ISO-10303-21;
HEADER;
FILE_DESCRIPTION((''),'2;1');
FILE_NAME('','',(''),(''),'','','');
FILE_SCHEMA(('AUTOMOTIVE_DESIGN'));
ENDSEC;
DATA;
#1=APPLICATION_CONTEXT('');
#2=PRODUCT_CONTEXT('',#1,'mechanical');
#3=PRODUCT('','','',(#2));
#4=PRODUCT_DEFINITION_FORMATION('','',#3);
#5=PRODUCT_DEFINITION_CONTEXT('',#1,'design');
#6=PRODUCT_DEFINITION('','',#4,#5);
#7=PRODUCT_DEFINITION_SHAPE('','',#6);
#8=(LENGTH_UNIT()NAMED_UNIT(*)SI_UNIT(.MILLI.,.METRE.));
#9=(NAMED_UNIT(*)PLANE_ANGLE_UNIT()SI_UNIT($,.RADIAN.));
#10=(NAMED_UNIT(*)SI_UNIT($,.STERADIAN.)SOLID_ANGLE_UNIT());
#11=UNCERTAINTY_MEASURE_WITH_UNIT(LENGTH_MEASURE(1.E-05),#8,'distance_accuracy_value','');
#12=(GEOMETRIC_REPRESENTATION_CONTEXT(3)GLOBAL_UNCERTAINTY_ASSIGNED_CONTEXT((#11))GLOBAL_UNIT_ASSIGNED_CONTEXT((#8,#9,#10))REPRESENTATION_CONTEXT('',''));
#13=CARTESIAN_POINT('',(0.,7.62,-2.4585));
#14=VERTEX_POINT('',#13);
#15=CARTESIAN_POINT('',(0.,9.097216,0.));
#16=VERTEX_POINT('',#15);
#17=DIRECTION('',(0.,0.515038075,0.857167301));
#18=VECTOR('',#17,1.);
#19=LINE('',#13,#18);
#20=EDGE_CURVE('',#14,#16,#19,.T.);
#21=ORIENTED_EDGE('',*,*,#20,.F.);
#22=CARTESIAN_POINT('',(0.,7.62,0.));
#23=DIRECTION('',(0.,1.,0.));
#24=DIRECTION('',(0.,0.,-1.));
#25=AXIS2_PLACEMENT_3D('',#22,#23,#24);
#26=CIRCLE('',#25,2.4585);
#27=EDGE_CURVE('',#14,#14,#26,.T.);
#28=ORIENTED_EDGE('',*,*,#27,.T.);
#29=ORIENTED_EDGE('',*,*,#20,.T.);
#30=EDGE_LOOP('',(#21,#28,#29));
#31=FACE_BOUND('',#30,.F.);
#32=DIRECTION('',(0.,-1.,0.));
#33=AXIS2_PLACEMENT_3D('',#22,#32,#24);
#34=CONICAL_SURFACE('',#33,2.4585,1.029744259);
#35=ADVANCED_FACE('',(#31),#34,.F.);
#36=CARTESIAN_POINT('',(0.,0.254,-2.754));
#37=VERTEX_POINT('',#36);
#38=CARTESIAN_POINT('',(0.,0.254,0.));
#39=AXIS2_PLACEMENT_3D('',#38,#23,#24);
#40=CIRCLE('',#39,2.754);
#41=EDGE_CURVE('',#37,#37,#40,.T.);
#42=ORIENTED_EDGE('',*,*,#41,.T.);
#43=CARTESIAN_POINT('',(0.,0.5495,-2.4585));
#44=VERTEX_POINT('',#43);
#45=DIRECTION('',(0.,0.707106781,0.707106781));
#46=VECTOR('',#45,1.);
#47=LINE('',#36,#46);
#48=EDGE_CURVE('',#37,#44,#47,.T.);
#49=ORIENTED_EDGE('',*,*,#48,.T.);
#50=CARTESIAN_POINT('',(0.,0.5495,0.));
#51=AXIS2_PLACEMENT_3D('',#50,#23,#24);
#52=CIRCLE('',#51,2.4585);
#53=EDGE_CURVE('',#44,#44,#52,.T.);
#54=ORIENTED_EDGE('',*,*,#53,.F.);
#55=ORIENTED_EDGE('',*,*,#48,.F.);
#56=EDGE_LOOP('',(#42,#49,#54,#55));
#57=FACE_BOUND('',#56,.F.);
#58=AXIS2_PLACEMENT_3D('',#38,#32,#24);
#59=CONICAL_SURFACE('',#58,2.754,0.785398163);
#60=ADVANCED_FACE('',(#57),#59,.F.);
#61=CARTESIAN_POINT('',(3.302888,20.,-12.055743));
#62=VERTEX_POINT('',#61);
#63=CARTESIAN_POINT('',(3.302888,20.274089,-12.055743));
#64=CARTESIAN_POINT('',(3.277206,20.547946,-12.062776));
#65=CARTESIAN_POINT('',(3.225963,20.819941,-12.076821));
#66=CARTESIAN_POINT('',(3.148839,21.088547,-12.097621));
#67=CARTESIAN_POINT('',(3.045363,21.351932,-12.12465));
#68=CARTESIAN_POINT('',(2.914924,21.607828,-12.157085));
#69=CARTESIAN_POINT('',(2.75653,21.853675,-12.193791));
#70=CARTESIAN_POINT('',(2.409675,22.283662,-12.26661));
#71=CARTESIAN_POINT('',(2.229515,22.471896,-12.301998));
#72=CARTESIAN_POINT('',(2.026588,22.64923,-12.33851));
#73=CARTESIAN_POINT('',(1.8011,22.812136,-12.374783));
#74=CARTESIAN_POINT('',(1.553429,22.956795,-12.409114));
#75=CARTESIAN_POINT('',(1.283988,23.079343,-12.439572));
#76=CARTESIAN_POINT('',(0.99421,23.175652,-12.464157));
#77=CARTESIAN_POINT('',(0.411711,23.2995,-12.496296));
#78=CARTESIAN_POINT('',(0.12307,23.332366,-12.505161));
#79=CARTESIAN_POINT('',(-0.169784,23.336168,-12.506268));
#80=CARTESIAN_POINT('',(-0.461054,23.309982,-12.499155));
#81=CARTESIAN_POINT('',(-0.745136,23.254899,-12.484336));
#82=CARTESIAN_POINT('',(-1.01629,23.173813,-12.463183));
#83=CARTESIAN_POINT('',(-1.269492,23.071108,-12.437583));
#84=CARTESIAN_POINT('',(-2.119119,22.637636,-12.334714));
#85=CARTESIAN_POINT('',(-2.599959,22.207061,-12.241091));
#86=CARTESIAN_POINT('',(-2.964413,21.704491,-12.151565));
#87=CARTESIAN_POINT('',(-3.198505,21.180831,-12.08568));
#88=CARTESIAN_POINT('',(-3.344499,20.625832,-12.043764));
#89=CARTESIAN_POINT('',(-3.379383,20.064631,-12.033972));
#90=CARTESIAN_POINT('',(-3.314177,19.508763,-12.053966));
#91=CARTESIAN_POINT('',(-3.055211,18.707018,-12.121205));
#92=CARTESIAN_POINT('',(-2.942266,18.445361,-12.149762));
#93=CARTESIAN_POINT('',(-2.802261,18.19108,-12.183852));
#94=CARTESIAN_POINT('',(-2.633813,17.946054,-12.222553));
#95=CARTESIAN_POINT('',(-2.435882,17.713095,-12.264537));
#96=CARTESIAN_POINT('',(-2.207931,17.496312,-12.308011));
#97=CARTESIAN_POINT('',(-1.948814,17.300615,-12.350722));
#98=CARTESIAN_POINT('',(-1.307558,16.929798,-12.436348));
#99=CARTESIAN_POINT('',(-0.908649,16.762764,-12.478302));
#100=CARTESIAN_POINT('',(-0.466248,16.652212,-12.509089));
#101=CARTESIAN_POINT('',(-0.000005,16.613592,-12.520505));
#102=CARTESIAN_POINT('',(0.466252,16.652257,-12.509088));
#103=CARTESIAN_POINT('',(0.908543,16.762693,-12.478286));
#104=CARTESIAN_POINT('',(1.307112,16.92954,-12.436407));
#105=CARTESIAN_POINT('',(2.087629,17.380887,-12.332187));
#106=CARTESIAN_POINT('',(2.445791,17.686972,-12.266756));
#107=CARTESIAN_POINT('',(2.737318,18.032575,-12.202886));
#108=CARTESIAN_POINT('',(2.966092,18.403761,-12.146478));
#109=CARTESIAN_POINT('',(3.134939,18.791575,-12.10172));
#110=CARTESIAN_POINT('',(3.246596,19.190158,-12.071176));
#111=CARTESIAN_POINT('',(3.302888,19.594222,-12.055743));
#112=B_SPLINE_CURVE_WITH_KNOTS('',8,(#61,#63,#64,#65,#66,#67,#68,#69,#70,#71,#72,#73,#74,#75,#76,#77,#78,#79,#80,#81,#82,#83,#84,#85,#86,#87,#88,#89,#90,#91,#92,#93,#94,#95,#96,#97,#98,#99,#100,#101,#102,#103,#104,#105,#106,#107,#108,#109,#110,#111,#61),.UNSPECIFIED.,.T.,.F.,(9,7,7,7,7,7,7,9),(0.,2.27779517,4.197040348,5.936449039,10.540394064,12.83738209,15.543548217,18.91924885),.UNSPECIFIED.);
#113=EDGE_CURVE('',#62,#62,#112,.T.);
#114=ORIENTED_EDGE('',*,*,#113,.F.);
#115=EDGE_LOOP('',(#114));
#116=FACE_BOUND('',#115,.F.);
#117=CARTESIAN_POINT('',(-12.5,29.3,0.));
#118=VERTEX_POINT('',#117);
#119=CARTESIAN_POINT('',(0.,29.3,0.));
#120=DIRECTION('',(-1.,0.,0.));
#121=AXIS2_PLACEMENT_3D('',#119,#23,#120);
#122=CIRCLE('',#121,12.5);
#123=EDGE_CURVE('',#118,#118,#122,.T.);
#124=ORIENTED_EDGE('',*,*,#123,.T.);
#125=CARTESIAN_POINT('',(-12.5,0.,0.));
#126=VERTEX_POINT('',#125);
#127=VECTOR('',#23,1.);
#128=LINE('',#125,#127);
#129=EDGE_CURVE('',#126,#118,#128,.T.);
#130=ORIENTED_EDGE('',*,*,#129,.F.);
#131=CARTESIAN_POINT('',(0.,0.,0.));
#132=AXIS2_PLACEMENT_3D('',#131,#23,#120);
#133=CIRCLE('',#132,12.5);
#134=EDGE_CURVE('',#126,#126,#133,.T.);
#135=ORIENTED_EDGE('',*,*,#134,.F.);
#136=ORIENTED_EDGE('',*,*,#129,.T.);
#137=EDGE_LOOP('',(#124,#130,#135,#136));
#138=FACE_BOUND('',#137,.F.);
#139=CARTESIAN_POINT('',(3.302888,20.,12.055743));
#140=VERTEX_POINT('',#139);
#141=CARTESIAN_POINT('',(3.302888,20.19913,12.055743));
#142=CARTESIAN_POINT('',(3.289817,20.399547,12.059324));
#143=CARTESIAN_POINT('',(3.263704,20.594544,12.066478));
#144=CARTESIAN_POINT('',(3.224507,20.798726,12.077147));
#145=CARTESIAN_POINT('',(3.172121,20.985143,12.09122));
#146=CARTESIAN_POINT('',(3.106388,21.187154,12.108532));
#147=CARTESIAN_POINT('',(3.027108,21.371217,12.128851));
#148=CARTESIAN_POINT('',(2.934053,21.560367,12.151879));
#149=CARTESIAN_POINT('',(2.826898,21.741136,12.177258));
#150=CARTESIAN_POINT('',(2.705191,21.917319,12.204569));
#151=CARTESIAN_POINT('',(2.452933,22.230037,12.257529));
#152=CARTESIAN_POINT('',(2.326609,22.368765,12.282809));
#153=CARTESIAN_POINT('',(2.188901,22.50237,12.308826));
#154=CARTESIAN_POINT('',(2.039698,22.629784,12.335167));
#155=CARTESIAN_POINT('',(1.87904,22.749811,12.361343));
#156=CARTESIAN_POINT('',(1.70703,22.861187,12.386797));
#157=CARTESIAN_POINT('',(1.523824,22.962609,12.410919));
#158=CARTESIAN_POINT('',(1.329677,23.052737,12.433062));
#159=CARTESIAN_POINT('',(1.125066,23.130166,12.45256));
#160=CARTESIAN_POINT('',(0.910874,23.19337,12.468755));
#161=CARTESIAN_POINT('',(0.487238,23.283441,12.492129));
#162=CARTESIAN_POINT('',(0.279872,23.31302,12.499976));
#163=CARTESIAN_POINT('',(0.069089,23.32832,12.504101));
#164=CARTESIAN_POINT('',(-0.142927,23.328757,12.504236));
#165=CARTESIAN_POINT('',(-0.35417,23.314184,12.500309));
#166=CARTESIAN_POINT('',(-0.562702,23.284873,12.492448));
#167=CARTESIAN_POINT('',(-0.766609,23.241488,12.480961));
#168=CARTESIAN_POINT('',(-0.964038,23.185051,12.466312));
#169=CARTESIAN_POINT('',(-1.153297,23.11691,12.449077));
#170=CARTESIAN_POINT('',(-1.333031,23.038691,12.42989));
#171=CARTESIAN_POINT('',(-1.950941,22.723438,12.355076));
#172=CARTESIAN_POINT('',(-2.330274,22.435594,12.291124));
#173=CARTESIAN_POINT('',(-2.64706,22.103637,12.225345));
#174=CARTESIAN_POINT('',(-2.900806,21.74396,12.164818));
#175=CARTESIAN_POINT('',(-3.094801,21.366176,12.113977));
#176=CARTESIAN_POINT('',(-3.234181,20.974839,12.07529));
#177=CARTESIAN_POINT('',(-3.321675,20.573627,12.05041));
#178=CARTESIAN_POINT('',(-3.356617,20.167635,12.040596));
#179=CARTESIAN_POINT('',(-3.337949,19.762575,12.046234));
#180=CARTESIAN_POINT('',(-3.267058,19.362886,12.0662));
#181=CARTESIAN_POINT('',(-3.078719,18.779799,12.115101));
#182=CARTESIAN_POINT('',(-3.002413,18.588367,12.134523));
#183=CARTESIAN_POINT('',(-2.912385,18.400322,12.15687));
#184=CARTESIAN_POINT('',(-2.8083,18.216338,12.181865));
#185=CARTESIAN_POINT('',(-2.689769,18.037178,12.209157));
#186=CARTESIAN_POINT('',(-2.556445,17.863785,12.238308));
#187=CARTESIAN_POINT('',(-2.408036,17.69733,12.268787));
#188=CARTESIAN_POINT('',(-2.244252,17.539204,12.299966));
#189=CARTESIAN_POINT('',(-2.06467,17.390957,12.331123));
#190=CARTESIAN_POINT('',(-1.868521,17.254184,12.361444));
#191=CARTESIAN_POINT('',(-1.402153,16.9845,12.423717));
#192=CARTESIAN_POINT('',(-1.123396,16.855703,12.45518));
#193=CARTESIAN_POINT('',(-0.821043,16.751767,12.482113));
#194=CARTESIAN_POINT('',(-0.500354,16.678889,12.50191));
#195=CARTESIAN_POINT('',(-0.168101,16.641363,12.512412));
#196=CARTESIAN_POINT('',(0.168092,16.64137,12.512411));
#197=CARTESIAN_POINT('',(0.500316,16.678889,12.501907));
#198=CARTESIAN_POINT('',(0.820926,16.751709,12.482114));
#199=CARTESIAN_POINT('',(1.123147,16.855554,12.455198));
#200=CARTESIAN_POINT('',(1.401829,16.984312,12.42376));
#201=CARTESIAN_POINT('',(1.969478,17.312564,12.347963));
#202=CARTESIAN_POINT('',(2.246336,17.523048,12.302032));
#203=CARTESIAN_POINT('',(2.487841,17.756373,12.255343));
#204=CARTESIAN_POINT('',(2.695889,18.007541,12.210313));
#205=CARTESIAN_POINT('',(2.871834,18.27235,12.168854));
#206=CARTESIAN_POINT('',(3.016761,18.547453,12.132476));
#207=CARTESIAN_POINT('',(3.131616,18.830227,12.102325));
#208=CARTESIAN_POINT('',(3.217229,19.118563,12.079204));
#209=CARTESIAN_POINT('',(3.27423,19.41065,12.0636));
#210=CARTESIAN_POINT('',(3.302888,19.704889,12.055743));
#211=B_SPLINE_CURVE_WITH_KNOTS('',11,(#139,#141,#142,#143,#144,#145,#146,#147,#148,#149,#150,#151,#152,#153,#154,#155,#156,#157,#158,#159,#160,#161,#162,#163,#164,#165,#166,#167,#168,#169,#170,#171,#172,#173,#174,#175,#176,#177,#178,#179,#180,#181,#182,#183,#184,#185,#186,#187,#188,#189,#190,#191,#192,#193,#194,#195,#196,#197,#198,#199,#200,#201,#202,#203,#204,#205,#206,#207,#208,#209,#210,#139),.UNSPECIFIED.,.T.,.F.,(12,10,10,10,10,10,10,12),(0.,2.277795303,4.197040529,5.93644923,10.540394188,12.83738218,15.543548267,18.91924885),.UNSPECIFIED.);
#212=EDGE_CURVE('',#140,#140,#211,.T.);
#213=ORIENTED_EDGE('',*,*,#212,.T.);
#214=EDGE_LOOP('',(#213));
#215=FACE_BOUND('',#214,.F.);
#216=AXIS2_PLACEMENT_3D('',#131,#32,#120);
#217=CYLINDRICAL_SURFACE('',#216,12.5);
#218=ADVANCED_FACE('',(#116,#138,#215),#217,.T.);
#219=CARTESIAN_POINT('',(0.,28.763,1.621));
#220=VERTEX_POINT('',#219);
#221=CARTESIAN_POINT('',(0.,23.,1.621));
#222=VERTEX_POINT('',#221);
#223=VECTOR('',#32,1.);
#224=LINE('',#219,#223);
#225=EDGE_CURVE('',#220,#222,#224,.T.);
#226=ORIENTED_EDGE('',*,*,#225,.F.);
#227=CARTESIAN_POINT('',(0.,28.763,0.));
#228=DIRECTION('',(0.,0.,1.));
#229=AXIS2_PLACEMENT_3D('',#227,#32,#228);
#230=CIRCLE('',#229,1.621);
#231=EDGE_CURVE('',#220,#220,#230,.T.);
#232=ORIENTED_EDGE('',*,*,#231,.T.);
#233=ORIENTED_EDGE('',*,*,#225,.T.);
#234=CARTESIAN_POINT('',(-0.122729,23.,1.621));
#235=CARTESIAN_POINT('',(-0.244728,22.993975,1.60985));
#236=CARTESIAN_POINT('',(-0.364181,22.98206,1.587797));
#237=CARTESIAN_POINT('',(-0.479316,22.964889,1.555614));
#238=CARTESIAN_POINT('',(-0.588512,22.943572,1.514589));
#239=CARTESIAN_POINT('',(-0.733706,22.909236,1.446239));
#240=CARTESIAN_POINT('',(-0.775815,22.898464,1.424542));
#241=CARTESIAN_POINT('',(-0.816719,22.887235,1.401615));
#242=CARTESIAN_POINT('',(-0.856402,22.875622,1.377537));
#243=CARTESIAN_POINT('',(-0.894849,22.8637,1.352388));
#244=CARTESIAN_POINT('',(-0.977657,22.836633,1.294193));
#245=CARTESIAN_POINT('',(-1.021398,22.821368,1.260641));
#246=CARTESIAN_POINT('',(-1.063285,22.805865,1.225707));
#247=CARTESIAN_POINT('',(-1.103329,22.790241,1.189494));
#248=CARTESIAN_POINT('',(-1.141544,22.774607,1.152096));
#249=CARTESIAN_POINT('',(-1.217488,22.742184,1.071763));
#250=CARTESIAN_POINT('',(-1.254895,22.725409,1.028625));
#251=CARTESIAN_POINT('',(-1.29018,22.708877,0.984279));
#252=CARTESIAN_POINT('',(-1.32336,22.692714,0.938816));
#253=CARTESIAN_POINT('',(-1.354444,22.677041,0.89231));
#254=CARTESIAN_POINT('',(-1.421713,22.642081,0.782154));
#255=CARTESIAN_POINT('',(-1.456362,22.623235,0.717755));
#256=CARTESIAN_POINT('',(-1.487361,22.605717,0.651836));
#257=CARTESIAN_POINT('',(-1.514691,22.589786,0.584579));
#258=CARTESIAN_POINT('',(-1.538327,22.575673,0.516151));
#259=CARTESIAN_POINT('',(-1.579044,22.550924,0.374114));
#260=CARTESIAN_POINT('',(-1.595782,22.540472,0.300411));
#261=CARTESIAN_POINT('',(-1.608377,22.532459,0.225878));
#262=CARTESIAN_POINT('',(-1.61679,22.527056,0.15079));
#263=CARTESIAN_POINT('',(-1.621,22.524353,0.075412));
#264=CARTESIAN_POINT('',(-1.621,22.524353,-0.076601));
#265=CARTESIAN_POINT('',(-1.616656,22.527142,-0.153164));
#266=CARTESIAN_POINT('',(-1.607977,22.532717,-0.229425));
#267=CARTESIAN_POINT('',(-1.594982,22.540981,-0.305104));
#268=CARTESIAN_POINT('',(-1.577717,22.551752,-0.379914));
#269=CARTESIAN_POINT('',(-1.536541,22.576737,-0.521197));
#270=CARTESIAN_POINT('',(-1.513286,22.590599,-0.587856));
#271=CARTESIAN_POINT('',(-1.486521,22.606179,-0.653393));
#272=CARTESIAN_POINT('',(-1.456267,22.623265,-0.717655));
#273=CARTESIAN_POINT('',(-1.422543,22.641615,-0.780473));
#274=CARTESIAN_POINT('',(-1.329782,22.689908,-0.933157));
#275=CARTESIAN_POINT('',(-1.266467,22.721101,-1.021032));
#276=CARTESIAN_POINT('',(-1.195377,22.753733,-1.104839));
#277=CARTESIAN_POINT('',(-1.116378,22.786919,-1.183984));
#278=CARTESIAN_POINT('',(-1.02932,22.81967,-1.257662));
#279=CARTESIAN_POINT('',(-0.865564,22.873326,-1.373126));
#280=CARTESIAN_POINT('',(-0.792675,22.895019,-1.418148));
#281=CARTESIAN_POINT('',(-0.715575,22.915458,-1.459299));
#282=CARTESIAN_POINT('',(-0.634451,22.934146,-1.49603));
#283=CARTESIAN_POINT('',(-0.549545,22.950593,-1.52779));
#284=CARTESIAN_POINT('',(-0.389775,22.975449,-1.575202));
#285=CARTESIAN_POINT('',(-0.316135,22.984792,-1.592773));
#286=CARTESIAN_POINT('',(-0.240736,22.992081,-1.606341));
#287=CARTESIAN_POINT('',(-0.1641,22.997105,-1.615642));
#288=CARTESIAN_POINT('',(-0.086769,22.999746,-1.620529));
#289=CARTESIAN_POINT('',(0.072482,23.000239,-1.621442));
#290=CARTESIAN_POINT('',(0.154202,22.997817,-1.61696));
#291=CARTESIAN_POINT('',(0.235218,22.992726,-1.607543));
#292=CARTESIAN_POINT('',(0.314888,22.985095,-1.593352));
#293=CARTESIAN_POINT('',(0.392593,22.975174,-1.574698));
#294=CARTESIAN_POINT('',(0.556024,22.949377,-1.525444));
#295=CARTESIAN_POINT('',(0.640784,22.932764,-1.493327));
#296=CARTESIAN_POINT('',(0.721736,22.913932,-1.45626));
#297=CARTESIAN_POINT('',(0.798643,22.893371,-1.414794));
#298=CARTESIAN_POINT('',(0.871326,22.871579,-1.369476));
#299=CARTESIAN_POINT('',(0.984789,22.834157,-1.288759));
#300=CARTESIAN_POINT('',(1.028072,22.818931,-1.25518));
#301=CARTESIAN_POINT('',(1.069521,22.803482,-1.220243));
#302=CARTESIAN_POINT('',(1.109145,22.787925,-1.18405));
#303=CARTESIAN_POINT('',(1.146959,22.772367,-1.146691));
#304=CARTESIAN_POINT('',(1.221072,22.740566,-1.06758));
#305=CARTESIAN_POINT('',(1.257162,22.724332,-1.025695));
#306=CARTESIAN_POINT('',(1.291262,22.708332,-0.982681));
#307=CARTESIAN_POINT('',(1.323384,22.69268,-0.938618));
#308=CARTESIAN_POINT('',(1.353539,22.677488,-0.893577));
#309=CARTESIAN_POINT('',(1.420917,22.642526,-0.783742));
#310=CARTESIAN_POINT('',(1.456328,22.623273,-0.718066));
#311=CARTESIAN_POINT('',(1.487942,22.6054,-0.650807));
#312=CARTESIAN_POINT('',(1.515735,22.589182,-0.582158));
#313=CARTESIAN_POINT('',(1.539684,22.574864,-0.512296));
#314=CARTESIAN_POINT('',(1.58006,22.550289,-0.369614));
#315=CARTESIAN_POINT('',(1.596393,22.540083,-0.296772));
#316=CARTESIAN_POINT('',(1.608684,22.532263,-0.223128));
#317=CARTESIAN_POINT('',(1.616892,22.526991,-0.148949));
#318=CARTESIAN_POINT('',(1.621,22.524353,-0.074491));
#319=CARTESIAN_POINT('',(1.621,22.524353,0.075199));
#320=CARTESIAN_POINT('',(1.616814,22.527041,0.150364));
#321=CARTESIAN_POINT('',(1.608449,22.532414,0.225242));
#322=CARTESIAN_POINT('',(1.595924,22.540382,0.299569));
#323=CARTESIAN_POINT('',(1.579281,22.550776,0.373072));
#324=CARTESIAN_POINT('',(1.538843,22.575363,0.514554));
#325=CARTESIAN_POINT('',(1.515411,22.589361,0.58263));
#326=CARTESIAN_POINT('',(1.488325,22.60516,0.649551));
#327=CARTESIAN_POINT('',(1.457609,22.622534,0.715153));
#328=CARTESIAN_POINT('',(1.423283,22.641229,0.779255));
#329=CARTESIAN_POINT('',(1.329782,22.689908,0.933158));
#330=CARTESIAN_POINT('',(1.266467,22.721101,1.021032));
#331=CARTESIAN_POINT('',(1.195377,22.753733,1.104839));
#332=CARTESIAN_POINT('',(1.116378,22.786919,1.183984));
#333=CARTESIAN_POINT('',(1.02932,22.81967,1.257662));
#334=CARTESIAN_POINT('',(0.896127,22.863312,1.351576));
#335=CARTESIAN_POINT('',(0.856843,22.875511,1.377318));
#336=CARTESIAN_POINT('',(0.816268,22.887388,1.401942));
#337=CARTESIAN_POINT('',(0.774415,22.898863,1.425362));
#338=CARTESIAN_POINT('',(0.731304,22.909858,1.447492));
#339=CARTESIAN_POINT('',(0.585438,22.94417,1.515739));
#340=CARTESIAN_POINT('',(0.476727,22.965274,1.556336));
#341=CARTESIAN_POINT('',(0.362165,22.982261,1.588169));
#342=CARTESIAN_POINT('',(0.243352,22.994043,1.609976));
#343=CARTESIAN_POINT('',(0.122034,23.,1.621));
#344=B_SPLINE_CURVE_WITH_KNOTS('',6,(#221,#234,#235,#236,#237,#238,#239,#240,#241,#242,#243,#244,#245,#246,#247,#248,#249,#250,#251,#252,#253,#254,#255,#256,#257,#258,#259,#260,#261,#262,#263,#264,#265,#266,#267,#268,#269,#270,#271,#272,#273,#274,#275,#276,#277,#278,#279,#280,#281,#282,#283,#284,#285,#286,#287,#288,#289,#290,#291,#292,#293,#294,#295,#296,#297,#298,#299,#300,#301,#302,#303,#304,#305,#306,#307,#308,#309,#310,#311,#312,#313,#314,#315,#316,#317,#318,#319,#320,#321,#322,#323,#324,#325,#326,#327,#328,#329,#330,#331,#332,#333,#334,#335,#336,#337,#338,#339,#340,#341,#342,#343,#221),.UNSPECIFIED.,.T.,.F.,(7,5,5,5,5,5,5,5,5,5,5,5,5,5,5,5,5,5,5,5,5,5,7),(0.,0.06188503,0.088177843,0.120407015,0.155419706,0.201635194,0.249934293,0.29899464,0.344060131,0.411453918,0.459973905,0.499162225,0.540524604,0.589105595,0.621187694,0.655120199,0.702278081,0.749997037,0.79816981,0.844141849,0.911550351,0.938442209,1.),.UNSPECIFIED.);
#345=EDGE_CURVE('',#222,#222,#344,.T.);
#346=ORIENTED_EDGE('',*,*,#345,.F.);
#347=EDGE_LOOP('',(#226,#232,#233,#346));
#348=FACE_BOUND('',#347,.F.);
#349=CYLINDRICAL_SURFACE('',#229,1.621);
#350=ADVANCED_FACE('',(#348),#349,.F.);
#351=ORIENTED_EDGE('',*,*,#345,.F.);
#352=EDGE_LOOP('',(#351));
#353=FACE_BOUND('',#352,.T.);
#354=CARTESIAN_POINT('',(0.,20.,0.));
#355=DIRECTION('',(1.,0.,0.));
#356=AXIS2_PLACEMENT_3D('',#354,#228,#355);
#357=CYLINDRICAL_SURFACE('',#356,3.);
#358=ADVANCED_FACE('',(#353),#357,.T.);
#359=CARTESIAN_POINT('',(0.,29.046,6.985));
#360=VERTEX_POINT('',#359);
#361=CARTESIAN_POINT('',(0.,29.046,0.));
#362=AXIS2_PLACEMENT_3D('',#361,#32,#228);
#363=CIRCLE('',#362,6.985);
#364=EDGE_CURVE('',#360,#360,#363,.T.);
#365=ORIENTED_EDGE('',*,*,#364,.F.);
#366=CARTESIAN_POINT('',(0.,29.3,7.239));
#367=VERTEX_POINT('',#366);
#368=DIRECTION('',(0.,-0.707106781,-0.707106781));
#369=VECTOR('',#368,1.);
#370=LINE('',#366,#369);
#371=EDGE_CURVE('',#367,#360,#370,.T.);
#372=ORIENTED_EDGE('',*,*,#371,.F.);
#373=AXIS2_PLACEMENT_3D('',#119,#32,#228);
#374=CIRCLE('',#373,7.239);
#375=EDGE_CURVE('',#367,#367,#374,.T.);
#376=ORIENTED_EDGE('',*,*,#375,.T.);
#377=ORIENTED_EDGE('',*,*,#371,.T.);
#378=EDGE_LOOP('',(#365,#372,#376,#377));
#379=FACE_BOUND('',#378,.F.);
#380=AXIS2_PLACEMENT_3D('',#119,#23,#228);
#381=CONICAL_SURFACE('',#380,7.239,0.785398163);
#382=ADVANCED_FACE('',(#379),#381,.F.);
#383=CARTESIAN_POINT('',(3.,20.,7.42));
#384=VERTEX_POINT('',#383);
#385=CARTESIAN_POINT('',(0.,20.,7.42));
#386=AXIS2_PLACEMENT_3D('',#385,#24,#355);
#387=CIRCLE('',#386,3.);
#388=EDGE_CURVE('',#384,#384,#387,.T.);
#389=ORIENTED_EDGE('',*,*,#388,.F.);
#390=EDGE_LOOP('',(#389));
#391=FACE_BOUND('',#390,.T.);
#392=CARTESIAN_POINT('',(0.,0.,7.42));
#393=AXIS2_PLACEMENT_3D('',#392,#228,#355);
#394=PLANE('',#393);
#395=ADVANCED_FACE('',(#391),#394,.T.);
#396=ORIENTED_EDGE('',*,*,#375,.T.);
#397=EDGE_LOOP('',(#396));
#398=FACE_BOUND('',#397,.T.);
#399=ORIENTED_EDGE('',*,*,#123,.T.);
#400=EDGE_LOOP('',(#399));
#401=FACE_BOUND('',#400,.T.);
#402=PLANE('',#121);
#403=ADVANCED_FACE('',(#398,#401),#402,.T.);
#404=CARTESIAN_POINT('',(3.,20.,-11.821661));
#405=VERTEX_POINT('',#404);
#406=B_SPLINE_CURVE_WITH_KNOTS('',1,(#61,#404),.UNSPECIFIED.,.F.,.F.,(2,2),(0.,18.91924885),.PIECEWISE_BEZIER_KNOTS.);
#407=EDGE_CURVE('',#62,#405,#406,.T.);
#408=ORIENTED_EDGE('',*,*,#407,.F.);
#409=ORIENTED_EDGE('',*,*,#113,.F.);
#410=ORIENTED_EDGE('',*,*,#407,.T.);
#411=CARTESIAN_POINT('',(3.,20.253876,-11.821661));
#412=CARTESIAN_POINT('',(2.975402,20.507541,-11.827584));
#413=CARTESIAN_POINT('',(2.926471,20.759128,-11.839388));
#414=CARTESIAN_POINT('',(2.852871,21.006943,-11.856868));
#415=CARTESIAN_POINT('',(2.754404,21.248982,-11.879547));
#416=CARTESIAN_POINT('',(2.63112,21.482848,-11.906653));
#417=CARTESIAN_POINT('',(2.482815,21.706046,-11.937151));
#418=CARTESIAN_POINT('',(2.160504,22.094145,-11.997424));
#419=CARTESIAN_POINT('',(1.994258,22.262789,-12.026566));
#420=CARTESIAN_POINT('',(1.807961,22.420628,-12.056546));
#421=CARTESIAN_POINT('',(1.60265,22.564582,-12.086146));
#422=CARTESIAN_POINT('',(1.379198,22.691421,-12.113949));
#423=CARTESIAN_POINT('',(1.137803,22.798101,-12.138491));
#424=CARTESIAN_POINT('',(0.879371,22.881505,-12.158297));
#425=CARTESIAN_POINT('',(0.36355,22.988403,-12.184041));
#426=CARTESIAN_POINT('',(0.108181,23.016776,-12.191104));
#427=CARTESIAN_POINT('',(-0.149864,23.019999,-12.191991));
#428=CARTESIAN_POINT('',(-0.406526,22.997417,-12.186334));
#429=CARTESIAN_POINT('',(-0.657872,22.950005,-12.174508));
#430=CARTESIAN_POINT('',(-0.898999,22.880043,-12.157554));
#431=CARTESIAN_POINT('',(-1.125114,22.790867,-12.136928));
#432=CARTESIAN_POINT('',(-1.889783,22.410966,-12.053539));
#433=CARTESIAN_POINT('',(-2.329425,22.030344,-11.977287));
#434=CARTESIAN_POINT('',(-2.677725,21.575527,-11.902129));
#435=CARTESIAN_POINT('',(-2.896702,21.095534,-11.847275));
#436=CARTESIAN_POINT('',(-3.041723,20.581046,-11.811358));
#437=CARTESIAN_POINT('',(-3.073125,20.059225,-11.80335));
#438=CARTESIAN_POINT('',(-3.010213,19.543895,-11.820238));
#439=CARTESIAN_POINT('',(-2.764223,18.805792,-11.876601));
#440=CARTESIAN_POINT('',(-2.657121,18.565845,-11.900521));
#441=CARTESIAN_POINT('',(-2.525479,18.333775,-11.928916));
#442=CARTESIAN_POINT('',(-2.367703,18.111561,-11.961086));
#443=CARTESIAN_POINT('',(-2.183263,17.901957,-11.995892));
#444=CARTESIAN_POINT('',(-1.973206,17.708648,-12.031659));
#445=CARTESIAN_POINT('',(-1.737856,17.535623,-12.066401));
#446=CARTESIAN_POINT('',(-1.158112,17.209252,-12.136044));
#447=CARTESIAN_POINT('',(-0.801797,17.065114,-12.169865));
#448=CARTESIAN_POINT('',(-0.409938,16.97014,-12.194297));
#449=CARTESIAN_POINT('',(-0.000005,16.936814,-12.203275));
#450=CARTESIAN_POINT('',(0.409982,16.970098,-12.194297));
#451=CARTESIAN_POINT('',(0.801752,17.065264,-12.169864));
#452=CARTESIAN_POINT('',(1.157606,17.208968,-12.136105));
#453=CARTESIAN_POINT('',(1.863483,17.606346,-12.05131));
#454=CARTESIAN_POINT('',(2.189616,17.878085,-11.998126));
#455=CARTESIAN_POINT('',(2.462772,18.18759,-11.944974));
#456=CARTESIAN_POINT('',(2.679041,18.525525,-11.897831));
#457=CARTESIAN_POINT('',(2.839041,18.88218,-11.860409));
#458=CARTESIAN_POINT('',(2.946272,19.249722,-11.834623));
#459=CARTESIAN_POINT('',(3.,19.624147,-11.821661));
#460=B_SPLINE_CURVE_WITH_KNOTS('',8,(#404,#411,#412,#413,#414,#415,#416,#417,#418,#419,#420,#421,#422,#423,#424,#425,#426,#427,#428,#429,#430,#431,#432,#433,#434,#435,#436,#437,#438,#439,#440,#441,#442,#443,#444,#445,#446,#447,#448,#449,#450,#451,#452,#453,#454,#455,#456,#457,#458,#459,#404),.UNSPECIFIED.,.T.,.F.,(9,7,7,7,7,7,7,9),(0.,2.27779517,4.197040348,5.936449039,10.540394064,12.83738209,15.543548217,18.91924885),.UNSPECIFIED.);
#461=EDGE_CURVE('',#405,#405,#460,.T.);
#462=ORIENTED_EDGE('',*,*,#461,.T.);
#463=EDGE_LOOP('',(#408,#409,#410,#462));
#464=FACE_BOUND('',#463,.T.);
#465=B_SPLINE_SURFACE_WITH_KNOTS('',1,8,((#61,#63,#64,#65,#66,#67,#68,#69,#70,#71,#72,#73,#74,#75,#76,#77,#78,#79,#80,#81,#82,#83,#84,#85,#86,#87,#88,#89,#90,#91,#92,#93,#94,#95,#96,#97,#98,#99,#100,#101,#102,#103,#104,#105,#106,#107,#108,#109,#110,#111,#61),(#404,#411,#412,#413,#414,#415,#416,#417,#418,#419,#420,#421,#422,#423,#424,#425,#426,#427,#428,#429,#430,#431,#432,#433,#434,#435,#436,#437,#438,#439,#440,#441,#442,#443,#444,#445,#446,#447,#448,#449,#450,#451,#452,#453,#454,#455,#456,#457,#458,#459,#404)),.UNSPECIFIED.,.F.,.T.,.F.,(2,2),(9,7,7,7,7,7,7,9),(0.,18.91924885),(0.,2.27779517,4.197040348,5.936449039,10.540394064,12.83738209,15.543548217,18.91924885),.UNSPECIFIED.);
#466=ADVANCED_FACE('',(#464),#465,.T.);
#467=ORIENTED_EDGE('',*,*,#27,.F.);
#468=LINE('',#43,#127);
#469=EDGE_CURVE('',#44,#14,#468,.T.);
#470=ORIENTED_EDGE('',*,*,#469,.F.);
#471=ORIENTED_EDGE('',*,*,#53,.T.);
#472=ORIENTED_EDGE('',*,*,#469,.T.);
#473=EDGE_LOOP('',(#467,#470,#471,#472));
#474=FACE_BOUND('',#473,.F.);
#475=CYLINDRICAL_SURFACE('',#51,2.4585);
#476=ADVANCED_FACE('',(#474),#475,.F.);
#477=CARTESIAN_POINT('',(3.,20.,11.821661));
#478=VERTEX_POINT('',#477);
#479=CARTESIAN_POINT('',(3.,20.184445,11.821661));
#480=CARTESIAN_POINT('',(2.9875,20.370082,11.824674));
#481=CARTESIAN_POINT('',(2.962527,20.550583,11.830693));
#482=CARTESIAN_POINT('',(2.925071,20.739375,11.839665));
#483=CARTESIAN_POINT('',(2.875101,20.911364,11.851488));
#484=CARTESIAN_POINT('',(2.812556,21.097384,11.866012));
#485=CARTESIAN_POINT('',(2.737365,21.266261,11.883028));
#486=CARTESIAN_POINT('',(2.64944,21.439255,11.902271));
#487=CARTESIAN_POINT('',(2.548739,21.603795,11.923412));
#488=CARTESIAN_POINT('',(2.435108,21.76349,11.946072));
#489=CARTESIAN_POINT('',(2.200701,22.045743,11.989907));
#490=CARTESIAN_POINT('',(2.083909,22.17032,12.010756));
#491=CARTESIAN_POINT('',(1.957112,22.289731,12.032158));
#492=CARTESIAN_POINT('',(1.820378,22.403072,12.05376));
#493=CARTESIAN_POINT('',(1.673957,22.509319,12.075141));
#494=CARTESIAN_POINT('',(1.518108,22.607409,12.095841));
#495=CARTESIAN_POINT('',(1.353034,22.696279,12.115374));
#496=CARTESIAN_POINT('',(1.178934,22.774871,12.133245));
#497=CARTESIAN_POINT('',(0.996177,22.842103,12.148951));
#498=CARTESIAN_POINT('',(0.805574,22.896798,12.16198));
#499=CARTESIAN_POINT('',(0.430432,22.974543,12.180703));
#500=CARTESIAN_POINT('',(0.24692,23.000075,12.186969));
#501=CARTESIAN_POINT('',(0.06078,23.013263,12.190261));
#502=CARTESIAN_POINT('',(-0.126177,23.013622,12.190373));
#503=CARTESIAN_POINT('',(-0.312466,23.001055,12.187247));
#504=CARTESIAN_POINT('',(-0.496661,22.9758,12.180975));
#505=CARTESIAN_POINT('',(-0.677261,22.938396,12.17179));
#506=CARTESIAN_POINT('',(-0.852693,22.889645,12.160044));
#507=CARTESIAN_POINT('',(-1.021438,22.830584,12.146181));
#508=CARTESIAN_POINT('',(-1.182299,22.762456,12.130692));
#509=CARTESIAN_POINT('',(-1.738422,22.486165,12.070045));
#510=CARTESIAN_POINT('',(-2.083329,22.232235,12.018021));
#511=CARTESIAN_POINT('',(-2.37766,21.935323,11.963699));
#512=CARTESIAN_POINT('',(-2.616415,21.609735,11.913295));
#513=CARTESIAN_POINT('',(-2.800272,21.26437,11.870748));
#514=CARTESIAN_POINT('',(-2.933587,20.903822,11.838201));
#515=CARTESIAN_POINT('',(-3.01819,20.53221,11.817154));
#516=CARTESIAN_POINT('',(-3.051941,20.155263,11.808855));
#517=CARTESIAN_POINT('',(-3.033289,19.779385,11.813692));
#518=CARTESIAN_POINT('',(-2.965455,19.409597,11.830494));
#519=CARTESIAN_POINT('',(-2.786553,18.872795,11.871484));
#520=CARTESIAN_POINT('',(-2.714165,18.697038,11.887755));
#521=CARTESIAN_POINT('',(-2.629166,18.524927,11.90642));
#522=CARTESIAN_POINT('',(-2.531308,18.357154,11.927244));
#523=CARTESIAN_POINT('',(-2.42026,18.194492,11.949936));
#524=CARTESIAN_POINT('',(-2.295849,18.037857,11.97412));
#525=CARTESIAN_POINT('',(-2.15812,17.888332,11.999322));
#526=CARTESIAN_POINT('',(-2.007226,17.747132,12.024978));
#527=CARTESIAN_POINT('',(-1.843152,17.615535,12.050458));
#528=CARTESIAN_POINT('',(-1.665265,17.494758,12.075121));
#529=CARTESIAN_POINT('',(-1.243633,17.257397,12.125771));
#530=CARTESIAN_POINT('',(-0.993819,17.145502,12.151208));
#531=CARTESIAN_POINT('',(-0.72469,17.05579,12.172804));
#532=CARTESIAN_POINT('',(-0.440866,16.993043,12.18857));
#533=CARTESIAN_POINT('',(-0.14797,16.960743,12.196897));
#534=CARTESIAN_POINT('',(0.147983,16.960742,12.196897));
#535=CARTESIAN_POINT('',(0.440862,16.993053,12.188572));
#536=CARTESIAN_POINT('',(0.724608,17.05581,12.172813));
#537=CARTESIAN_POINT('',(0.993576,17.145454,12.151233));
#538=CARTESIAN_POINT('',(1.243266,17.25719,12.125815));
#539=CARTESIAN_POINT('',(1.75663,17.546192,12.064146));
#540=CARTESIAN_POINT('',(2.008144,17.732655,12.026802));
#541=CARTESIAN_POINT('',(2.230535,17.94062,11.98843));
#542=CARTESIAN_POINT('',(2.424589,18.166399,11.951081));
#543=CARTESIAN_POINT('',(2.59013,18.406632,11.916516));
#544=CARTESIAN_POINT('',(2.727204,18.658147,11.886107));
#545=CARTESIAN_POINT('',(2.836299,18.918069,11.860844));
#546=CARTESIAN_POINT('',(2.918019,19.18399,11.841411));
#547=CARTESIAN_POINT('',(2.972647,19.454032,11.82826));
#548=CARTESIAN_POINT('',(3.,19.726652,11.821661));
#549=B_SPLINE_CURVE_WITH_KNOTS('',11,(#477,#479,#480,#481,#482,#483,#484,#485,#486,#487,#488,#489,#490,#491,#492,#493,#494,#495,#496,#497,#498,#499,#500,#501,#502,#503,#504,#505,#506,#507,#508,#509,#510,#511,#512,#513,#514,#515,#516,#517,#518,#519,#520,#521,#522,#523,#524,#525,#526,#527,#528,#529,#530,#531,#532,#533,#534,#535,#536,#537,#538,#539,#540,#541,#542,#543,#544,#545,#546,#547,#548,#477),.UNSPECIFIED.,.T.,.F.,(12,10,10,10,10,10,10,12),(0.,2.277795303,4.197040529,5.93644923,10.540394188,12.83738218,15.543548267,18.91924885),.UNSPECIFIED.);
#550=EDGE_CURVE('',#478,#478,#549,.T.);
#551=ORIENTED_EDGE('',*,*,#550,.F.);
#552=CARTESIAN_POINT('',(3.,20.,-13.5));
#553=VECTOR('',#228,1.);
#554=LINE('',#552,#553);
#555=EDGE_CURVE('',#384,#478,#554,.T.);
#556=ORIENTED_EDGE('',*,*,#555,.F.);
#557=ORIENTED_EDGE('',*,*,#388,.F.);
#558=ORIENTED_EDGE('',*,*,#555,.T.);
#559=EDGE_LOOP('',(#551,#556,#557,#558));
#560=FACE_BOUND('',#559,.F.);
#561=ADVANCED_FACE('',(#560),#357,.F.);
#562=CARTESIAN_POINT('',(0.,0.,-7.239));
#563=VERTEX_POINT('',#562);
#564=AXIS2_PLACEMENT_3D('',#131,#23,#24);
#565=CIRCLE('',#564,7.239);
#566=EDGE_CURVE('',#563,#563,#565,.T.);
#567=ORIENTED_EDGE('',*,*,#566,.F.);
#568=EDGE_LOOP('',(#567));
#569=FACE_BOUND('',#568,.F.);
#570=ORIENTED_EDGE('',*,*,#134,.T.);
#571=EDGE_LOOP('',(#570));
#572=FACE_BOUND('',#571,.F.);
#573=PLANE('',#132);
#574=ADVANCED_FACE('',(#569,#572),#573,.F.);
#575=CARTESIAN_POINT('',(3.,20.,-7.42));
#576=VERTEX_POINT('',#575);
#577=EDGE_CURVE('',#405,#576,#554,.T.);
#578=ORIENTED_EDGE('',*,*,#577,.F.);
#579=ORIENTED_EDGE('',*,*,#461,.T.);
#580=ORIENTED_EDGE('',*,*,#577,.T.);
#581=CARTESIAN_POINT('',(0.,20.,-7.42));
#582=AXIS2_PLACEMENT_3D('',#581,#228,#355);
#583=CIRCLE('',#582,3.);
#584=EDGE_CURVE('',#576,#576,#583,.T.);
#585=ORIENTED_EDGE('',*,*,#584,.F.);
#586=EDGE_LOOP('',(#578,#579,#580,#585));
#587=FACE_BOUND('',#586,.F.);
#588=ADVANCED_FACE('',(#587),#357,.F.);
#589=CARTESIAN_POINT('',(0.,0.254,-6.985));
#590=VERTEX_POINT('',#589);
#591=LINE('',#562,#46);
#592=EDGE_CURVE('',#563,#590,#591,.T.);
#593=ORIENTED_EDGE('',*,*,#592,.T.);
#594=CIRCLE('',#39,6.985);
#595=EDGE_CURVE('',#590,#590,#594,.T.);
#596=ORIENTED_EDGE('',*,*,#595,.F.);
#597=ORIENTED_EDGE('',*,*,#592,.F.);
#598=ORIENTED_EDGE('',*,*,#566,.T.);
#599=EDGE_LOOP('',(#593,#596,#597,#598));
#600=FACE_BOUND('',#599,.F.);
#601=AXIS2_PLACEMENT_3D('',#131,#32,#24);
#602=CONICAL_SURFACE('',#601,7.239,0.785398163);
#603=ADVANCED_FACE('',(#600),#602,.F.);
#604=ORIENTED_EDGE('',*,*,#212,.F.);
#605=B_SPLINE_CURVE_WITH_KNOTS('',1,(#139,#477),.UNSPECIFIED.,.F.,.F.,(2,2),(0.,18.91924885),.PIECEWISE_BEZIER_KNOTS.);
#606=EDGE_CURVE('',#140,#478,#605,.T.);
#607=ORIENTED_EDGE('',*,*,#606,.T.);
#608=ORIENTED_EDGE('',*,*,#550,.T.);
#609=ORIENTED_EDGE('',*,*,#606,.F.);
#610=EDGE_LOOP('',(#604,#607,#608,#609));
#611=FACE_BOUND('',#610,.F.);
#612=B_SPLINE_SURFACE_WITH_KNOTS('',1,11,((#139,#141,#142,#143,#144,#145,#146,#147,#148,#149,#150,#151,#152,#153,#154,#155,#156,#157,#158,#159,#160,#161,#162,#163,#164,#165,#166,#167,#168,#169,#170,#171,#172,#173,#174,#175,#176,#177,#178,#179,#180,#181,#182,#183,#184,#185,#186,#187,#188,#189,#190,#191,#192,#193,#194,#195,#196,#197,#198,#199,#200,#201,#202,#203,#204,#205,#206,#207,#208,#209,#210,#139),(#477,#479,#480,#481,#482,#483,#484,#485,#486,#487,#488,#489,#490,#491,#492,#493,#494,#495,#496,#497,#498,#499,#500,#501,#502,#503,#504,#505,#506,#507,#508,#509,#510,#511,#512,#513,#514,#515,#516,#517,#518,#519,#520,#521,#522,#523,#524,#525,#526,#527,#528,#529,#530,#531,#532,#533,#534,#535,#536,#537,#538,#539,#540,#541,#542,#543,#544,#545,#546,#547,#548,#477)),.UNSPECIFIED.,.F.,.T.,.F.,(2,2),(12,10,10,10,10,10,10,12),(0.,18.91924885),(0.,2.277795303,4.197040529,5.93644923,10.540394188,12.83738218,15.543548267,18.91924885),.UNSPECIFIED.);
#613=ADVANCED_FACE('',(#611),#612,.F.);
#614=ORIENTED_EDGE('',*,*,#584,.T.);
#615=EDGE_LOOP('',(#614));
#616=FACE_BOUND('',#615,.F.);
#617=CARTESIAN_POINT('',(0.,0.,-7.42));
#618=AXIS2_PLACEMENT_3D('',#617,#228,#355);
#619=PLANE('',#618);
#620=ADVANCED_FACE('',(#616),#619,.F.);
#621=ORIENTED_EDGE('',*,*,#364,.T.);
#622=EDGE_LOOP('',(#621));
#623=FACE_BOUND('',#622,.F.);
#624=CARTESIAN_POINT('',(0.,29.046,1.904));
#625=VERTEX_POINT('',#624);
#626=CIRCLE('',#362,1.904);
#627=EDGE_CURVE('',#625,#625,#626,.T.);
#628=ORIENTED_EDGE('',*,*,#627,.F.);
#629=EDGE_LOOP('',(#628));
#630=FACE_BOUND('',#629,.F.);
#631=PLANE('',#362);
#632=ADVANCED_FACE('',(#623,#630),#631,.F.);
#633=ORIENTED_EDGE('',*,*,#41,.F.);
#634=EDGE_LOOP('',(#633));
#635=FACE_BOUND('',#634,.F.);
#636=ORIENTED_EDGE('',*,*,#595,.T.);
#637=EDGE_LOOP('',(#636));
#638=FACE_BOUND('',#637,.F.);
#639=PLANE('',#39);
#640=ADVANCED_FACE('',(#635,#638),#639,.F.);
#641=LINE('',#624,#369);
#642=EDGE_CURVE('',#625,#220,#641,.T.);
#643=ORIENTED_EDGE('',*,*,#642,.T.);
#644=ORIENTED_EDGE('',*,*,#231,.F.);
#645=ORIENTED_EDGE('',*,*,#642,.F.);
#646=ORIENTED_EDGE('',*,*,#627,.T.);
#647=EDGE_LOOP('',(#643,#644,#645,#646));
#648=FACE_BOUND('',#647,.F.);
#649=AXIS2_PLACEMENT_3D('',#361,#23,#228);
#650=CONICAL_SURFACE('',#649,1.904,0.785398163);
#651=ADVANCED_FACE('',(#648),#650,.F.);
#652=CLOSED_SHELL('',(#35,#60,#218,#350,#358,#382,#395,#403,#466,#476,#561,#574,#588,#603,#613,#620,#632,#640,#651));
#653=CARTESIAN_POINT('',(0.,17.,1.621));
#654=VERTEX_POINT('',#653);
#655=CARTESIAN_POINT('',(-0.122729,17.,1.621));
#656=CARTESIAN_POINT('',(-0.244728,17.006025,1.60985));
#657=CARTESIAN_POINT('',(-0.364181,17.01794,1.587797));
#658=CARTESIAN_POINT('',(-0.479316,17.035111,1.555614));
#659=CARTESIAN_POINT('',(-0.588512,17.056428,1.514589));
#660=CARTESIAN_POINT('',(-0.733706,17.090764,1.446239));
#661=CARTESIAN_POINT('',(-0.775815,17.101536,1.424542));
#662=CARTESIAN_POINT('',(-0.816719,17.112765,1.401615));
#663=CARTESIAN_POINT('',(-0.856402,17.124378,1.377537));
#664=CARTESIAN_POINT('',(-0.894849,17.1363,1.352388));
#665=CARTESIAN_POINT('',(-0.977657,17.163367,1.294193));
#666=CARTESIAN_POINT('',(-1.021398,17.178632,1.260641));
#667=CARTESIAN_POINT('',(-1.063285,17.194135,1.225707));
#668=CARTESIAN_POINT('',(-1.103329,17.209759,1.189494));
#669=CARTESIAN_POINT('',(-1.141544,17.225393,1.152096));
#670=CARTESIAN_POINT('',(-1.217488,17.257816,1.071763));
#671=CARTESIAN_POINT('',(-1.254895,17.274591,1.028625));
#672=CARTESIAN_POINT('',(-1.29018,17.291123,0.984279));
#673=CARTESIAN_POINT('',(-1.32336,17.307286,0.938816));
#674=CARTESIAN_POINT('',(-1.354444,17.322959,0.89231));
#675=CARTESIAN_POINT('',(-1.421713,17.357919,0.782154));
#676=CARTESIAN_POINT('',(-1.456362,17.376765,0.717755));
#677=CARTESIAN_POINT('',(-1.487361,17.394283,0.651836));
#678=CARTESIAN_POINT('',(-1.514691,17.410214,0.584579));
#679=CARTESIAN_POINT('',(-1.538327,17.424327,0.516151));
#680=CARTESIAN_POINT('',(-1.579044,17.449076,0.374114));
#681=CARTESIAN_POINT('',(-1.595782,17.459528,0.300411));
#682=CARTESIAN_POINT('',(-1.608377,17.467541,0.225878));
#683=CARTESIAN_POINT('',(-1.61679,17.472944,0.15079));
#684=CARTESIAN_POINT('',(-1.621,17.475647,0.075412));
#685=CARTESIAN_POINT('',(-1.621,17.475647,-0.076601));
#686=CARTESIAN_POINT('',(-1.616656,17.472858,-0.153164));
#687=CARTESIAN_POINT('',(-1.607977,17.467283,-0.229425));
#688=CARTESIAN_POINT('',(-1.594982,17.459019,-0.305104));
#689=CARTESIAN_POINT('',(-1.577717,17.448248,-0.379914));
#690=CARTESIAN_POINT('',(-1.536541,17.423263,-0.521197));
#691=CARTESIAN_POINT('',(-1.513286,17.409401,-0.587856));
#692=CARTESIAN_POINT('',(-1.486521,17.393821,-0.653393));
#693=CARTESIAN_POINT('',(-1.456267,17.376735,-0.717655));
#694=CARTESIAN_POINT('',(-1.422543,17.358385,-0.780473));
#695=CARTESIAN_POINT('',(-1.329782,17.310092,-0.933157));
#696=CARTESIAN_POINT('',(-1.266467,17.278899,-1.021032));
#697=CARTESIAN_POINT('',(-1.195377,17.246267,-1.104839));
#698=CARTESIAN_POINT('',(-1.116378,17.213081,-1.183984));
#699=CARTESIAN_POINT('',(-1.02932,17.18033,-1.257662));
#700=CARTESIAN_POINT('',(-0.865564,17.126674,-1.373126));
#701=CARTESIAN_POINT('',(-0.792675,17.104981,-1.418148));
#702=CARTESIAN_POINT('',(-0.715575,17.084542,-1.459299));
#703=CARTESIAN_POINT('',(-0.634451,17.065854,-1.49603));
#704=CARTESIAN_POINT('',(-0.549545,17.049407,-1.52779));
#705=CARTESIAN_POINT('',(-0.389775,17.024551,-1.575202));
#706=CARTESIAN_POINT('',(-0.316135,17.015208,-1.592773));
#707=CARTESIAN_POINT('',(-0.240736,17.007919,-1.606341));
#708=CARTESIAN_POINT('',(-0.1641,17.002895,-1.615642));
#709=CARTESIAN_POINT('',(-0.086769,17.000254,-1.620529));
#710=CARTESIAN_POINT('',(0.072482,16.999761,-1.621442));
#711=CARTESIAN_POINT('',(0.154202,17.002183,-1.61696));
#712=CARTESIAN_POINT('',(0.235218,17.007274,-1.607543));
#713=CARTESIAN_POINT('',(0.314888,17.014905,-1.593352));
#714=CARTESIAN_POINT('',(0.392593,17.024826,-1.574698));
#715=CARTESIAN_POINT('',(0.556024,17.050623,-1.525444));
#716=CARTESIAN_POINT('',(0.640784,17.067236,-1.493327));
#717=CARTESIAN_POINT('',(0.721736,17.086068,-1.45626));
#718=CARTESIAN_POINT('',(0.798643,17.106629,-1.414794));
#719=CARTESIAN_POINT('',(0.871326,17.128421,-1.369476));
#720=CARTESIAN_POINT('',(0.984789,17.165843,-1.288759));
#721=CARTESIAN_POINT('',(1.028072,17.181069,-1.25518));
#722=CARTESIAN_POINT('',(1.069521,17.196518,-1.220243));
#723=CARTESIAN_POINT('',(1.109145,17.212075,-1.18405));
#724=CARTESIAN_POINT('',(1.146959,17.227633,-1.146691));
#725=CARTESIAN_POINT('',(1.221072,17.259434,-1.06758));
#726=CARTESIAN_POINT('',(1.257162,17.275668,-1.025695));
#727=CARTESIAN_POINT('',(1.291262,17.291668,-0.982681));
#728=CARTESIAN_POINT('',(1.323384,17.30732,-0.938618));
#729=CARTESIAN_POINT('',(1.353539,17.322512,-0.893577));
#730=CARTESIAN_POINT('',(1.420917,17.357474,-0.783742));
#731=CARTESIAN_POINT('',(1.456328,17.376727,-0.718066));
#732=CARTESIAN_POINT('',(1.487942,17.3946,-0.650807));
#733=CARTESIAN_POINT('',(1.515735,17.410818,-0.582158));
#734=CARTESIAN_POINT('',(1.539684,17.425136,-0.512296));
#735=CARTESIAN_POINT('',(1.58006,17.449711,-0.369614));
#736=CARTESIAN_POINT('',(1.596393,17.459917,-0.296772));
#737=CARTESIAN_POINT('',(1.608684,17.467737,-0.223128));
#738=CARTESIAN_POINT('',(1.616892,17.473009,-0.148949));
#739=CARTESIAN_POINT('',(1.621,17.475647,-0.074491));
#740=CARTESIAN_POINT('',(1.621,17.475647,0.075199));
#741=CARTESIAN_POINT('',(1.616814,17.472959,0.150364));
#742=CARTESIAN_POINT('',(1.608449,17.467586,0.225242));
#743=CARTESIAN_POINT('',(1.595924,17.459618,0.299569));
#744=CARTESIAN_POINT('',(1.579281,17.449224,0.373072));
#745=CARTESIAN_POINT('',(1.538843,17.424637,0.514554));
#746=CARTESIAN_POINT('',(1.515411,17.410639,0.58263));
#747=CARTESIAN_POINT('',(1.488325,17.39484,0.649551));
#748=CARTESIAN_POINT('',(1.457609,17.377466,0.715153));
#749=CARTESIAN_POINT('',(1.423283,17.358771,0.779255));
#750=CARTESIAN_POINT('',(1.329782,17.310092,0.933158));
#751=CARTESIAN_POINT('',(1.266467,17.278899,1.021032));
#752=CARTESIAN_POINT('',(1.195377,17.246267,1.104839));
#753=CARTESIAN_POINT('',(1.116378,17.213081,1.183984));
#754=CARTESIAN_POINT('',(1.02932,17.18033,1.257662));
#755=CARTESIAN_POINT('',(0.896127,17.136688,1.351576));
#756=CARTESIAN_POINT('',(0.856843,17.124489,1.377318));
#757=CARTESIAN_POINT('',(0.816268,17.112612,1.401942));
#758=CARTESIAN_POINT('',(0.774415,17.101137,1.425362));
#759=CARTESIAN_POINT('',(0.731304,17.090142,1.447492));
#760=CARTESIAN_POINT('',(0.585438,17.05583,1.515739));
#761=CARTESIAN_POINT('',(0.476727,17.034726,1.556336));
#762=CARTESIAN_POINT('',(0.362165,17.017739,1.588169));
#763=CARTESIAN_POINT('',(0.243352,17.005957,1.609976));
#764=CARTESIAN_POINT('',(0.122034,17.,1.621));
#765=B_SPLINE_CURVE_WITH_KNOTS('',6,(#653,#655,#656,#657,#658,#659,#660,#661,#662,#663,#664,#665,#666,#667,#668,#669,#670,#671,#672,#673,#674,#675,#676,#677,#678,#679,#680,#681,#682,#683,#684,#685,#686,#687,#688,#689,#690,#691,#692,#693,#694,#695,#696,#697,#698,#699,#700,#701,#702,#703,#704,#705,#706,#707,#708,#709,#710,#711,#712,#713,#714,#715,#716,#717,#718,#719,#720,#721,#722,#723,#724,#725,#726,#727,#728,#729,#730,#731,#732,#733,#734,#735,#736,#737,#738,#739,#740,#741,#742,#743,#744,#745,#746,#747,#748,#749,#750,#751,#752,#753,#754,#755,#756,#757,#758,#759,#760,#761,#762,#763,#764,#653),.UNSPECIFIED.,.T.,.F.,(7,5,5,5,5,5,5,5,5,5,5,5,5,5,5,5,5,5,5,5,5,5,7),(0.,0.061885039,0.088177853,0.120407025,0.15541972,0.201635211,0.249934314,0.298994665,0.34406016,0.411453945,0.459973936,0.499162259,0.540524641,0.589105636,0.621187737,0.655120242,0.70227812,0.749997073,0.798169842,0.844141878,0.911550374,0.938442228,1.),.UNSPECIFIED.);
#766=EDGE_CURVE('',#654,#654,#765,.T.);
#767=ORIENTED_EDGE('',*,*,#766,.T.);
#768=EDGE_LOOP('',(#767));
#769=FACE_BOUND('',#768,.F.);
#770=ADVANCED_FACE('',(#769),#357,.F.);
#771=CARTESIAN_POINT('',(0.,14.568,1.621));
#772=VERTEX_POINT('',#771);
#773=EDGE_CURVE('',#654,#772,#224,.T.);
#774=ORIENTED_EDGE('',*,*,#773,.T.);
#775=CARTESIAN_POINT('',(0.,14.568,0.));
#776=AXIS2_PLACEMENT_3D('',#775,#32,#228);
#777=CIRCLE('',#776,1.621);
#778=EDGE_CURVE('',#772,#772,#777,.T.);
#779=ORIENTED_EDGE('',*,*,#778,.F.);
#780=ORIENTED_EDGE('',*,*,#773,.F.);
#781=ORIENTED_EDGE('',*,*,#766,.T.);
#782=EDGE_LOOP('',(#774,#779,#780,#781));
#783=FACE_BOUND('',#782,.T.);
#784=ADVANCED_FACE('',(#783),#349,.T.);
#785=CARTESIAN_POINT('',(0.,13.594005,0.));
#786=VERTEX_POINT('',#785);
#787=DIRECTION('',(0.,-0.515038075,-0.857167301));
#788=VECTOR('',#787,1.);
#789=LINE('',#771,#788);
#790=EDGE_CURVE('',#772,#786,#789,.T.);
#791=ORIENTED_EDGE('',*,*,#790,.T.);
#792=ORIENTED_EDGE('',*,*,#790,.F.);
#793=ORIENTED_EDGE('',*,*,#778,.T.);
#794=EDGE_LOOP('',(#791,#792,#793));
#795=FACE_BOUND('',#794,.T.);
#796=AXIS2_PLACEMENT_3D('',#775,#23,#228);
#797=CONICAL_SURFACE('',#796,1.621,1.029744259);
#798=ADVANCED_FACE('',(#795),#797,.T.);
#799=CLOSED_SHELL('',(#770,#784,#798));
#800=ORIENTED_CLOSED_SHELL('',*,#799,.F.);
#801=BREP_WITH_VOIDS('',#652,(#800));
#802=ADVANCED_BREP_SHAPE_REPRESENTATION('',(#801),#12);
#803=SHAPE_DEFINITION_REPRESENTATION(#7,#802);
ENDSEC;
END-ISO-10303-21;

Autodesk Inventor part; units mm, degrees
ref_plane "YZ Plane" through (0, 0, 0) normal (1, 0, 0) x (0, 1, 0)
ref_plane "XZ Plane" through (0, 0, 0) normal (0, 1, 0) x (-1, 0, 0)
ref_plane "XY Plane" through (0, 0, 0) normal (0, 0, 1) x (1, 0, 0)
sketch "Sketch1" plane through (0, 0, 0) normal (0, 1, 0) x (-1, 0, 0)
  circle A0 centre (0, 0) radius 12.5
  dimension "d0" = 25
extrude "Extrusion1" add sketch "Sketch1" along normal blind 29.3
hole "ReliefTop" at (0, 29.3, 0) direction (0, -1, 0) diameter 13.97 depth 0.254 countersink diameter 14.478 countersink angle 90
hole "ReliefBottom" at (0, 0, 0) direction (0, 1, 0) diameter 13.97 depth 0.254 countersink diameter 14.478 countersink angle 90
hole "MountBottomM6" at (0, 0.254, 0) direction (0, 1, 0) diameter 4.917 depth 7.366 tip angle 118 countersink diameter 5.508 countersink angle 90 thread size "M6x1" class "6H" standard "ISO Metric profile"
hole "MountTopM4" at (0, 29.046, 0) direction (0, -1, 0) diameter 3.242 depth 14.478 tip angle 118 countersink diameter 3.808 countersink angle 90 thread size "M4x0.7" class "6H" standard "ISO Metric profile"
sketch "Sketch2" plane through (0, 0, 0) normal (0, 0, 1) x (1, 0, 0)
  circle A0 centre (0, 20) radius 3
  line L0 (-12.5, 0) -> (12.5, 0) projected
  line L1 (0, -4.6) -> (0, 27.6) projected
  point P0 (0, 0)
  dimension "d49" = 6
  dimension "d50" = 20
extrude "Extrusion2" cut sketch "Sketch2" along normal through all both and the other way through all
chamfer "Chamfer1" distance 0.313 angle 45 2 edges at (-3, 19.9998, 12.1347) (-3, 19.9998, -12.1347)
extrude "Extrusion3" add sketch "Sketch2" along normal mid plane 14.84
equation "\"d1\" = height"
equation "\"d5\" = reliefMinor"
equation "\"d7\" = reliefMajor"
equation "\"d10\" = reliefDepth"
equation "\"d14\" = reliefMinor"
equation "\"d16\" = reliefMajor"
equation "\"d19\" = reliefDepth"
equation "\"d25\" = chamferM6"
equation "\"d28\" = depthM6"
equation "\"d40\" = chamferM4"
equation "\"d43\" = depthM4"
equation "\"reliefDepth\" = 0.254"
equation "\"reliefMinor\" = 13.97"
equation "\"reliefMajor\" = 14.478"
equation "\"chamferM6\" = 5.508"
equation "\"chamferM4\" = 3.808"
equation "\"depthM6\" = 7.366"
equation "\"depthM4\" = 14.478"
equation "\"height\" = 29.3"
properties part number "PLS-P642H0293A00_M" material "Stainless Steel"
